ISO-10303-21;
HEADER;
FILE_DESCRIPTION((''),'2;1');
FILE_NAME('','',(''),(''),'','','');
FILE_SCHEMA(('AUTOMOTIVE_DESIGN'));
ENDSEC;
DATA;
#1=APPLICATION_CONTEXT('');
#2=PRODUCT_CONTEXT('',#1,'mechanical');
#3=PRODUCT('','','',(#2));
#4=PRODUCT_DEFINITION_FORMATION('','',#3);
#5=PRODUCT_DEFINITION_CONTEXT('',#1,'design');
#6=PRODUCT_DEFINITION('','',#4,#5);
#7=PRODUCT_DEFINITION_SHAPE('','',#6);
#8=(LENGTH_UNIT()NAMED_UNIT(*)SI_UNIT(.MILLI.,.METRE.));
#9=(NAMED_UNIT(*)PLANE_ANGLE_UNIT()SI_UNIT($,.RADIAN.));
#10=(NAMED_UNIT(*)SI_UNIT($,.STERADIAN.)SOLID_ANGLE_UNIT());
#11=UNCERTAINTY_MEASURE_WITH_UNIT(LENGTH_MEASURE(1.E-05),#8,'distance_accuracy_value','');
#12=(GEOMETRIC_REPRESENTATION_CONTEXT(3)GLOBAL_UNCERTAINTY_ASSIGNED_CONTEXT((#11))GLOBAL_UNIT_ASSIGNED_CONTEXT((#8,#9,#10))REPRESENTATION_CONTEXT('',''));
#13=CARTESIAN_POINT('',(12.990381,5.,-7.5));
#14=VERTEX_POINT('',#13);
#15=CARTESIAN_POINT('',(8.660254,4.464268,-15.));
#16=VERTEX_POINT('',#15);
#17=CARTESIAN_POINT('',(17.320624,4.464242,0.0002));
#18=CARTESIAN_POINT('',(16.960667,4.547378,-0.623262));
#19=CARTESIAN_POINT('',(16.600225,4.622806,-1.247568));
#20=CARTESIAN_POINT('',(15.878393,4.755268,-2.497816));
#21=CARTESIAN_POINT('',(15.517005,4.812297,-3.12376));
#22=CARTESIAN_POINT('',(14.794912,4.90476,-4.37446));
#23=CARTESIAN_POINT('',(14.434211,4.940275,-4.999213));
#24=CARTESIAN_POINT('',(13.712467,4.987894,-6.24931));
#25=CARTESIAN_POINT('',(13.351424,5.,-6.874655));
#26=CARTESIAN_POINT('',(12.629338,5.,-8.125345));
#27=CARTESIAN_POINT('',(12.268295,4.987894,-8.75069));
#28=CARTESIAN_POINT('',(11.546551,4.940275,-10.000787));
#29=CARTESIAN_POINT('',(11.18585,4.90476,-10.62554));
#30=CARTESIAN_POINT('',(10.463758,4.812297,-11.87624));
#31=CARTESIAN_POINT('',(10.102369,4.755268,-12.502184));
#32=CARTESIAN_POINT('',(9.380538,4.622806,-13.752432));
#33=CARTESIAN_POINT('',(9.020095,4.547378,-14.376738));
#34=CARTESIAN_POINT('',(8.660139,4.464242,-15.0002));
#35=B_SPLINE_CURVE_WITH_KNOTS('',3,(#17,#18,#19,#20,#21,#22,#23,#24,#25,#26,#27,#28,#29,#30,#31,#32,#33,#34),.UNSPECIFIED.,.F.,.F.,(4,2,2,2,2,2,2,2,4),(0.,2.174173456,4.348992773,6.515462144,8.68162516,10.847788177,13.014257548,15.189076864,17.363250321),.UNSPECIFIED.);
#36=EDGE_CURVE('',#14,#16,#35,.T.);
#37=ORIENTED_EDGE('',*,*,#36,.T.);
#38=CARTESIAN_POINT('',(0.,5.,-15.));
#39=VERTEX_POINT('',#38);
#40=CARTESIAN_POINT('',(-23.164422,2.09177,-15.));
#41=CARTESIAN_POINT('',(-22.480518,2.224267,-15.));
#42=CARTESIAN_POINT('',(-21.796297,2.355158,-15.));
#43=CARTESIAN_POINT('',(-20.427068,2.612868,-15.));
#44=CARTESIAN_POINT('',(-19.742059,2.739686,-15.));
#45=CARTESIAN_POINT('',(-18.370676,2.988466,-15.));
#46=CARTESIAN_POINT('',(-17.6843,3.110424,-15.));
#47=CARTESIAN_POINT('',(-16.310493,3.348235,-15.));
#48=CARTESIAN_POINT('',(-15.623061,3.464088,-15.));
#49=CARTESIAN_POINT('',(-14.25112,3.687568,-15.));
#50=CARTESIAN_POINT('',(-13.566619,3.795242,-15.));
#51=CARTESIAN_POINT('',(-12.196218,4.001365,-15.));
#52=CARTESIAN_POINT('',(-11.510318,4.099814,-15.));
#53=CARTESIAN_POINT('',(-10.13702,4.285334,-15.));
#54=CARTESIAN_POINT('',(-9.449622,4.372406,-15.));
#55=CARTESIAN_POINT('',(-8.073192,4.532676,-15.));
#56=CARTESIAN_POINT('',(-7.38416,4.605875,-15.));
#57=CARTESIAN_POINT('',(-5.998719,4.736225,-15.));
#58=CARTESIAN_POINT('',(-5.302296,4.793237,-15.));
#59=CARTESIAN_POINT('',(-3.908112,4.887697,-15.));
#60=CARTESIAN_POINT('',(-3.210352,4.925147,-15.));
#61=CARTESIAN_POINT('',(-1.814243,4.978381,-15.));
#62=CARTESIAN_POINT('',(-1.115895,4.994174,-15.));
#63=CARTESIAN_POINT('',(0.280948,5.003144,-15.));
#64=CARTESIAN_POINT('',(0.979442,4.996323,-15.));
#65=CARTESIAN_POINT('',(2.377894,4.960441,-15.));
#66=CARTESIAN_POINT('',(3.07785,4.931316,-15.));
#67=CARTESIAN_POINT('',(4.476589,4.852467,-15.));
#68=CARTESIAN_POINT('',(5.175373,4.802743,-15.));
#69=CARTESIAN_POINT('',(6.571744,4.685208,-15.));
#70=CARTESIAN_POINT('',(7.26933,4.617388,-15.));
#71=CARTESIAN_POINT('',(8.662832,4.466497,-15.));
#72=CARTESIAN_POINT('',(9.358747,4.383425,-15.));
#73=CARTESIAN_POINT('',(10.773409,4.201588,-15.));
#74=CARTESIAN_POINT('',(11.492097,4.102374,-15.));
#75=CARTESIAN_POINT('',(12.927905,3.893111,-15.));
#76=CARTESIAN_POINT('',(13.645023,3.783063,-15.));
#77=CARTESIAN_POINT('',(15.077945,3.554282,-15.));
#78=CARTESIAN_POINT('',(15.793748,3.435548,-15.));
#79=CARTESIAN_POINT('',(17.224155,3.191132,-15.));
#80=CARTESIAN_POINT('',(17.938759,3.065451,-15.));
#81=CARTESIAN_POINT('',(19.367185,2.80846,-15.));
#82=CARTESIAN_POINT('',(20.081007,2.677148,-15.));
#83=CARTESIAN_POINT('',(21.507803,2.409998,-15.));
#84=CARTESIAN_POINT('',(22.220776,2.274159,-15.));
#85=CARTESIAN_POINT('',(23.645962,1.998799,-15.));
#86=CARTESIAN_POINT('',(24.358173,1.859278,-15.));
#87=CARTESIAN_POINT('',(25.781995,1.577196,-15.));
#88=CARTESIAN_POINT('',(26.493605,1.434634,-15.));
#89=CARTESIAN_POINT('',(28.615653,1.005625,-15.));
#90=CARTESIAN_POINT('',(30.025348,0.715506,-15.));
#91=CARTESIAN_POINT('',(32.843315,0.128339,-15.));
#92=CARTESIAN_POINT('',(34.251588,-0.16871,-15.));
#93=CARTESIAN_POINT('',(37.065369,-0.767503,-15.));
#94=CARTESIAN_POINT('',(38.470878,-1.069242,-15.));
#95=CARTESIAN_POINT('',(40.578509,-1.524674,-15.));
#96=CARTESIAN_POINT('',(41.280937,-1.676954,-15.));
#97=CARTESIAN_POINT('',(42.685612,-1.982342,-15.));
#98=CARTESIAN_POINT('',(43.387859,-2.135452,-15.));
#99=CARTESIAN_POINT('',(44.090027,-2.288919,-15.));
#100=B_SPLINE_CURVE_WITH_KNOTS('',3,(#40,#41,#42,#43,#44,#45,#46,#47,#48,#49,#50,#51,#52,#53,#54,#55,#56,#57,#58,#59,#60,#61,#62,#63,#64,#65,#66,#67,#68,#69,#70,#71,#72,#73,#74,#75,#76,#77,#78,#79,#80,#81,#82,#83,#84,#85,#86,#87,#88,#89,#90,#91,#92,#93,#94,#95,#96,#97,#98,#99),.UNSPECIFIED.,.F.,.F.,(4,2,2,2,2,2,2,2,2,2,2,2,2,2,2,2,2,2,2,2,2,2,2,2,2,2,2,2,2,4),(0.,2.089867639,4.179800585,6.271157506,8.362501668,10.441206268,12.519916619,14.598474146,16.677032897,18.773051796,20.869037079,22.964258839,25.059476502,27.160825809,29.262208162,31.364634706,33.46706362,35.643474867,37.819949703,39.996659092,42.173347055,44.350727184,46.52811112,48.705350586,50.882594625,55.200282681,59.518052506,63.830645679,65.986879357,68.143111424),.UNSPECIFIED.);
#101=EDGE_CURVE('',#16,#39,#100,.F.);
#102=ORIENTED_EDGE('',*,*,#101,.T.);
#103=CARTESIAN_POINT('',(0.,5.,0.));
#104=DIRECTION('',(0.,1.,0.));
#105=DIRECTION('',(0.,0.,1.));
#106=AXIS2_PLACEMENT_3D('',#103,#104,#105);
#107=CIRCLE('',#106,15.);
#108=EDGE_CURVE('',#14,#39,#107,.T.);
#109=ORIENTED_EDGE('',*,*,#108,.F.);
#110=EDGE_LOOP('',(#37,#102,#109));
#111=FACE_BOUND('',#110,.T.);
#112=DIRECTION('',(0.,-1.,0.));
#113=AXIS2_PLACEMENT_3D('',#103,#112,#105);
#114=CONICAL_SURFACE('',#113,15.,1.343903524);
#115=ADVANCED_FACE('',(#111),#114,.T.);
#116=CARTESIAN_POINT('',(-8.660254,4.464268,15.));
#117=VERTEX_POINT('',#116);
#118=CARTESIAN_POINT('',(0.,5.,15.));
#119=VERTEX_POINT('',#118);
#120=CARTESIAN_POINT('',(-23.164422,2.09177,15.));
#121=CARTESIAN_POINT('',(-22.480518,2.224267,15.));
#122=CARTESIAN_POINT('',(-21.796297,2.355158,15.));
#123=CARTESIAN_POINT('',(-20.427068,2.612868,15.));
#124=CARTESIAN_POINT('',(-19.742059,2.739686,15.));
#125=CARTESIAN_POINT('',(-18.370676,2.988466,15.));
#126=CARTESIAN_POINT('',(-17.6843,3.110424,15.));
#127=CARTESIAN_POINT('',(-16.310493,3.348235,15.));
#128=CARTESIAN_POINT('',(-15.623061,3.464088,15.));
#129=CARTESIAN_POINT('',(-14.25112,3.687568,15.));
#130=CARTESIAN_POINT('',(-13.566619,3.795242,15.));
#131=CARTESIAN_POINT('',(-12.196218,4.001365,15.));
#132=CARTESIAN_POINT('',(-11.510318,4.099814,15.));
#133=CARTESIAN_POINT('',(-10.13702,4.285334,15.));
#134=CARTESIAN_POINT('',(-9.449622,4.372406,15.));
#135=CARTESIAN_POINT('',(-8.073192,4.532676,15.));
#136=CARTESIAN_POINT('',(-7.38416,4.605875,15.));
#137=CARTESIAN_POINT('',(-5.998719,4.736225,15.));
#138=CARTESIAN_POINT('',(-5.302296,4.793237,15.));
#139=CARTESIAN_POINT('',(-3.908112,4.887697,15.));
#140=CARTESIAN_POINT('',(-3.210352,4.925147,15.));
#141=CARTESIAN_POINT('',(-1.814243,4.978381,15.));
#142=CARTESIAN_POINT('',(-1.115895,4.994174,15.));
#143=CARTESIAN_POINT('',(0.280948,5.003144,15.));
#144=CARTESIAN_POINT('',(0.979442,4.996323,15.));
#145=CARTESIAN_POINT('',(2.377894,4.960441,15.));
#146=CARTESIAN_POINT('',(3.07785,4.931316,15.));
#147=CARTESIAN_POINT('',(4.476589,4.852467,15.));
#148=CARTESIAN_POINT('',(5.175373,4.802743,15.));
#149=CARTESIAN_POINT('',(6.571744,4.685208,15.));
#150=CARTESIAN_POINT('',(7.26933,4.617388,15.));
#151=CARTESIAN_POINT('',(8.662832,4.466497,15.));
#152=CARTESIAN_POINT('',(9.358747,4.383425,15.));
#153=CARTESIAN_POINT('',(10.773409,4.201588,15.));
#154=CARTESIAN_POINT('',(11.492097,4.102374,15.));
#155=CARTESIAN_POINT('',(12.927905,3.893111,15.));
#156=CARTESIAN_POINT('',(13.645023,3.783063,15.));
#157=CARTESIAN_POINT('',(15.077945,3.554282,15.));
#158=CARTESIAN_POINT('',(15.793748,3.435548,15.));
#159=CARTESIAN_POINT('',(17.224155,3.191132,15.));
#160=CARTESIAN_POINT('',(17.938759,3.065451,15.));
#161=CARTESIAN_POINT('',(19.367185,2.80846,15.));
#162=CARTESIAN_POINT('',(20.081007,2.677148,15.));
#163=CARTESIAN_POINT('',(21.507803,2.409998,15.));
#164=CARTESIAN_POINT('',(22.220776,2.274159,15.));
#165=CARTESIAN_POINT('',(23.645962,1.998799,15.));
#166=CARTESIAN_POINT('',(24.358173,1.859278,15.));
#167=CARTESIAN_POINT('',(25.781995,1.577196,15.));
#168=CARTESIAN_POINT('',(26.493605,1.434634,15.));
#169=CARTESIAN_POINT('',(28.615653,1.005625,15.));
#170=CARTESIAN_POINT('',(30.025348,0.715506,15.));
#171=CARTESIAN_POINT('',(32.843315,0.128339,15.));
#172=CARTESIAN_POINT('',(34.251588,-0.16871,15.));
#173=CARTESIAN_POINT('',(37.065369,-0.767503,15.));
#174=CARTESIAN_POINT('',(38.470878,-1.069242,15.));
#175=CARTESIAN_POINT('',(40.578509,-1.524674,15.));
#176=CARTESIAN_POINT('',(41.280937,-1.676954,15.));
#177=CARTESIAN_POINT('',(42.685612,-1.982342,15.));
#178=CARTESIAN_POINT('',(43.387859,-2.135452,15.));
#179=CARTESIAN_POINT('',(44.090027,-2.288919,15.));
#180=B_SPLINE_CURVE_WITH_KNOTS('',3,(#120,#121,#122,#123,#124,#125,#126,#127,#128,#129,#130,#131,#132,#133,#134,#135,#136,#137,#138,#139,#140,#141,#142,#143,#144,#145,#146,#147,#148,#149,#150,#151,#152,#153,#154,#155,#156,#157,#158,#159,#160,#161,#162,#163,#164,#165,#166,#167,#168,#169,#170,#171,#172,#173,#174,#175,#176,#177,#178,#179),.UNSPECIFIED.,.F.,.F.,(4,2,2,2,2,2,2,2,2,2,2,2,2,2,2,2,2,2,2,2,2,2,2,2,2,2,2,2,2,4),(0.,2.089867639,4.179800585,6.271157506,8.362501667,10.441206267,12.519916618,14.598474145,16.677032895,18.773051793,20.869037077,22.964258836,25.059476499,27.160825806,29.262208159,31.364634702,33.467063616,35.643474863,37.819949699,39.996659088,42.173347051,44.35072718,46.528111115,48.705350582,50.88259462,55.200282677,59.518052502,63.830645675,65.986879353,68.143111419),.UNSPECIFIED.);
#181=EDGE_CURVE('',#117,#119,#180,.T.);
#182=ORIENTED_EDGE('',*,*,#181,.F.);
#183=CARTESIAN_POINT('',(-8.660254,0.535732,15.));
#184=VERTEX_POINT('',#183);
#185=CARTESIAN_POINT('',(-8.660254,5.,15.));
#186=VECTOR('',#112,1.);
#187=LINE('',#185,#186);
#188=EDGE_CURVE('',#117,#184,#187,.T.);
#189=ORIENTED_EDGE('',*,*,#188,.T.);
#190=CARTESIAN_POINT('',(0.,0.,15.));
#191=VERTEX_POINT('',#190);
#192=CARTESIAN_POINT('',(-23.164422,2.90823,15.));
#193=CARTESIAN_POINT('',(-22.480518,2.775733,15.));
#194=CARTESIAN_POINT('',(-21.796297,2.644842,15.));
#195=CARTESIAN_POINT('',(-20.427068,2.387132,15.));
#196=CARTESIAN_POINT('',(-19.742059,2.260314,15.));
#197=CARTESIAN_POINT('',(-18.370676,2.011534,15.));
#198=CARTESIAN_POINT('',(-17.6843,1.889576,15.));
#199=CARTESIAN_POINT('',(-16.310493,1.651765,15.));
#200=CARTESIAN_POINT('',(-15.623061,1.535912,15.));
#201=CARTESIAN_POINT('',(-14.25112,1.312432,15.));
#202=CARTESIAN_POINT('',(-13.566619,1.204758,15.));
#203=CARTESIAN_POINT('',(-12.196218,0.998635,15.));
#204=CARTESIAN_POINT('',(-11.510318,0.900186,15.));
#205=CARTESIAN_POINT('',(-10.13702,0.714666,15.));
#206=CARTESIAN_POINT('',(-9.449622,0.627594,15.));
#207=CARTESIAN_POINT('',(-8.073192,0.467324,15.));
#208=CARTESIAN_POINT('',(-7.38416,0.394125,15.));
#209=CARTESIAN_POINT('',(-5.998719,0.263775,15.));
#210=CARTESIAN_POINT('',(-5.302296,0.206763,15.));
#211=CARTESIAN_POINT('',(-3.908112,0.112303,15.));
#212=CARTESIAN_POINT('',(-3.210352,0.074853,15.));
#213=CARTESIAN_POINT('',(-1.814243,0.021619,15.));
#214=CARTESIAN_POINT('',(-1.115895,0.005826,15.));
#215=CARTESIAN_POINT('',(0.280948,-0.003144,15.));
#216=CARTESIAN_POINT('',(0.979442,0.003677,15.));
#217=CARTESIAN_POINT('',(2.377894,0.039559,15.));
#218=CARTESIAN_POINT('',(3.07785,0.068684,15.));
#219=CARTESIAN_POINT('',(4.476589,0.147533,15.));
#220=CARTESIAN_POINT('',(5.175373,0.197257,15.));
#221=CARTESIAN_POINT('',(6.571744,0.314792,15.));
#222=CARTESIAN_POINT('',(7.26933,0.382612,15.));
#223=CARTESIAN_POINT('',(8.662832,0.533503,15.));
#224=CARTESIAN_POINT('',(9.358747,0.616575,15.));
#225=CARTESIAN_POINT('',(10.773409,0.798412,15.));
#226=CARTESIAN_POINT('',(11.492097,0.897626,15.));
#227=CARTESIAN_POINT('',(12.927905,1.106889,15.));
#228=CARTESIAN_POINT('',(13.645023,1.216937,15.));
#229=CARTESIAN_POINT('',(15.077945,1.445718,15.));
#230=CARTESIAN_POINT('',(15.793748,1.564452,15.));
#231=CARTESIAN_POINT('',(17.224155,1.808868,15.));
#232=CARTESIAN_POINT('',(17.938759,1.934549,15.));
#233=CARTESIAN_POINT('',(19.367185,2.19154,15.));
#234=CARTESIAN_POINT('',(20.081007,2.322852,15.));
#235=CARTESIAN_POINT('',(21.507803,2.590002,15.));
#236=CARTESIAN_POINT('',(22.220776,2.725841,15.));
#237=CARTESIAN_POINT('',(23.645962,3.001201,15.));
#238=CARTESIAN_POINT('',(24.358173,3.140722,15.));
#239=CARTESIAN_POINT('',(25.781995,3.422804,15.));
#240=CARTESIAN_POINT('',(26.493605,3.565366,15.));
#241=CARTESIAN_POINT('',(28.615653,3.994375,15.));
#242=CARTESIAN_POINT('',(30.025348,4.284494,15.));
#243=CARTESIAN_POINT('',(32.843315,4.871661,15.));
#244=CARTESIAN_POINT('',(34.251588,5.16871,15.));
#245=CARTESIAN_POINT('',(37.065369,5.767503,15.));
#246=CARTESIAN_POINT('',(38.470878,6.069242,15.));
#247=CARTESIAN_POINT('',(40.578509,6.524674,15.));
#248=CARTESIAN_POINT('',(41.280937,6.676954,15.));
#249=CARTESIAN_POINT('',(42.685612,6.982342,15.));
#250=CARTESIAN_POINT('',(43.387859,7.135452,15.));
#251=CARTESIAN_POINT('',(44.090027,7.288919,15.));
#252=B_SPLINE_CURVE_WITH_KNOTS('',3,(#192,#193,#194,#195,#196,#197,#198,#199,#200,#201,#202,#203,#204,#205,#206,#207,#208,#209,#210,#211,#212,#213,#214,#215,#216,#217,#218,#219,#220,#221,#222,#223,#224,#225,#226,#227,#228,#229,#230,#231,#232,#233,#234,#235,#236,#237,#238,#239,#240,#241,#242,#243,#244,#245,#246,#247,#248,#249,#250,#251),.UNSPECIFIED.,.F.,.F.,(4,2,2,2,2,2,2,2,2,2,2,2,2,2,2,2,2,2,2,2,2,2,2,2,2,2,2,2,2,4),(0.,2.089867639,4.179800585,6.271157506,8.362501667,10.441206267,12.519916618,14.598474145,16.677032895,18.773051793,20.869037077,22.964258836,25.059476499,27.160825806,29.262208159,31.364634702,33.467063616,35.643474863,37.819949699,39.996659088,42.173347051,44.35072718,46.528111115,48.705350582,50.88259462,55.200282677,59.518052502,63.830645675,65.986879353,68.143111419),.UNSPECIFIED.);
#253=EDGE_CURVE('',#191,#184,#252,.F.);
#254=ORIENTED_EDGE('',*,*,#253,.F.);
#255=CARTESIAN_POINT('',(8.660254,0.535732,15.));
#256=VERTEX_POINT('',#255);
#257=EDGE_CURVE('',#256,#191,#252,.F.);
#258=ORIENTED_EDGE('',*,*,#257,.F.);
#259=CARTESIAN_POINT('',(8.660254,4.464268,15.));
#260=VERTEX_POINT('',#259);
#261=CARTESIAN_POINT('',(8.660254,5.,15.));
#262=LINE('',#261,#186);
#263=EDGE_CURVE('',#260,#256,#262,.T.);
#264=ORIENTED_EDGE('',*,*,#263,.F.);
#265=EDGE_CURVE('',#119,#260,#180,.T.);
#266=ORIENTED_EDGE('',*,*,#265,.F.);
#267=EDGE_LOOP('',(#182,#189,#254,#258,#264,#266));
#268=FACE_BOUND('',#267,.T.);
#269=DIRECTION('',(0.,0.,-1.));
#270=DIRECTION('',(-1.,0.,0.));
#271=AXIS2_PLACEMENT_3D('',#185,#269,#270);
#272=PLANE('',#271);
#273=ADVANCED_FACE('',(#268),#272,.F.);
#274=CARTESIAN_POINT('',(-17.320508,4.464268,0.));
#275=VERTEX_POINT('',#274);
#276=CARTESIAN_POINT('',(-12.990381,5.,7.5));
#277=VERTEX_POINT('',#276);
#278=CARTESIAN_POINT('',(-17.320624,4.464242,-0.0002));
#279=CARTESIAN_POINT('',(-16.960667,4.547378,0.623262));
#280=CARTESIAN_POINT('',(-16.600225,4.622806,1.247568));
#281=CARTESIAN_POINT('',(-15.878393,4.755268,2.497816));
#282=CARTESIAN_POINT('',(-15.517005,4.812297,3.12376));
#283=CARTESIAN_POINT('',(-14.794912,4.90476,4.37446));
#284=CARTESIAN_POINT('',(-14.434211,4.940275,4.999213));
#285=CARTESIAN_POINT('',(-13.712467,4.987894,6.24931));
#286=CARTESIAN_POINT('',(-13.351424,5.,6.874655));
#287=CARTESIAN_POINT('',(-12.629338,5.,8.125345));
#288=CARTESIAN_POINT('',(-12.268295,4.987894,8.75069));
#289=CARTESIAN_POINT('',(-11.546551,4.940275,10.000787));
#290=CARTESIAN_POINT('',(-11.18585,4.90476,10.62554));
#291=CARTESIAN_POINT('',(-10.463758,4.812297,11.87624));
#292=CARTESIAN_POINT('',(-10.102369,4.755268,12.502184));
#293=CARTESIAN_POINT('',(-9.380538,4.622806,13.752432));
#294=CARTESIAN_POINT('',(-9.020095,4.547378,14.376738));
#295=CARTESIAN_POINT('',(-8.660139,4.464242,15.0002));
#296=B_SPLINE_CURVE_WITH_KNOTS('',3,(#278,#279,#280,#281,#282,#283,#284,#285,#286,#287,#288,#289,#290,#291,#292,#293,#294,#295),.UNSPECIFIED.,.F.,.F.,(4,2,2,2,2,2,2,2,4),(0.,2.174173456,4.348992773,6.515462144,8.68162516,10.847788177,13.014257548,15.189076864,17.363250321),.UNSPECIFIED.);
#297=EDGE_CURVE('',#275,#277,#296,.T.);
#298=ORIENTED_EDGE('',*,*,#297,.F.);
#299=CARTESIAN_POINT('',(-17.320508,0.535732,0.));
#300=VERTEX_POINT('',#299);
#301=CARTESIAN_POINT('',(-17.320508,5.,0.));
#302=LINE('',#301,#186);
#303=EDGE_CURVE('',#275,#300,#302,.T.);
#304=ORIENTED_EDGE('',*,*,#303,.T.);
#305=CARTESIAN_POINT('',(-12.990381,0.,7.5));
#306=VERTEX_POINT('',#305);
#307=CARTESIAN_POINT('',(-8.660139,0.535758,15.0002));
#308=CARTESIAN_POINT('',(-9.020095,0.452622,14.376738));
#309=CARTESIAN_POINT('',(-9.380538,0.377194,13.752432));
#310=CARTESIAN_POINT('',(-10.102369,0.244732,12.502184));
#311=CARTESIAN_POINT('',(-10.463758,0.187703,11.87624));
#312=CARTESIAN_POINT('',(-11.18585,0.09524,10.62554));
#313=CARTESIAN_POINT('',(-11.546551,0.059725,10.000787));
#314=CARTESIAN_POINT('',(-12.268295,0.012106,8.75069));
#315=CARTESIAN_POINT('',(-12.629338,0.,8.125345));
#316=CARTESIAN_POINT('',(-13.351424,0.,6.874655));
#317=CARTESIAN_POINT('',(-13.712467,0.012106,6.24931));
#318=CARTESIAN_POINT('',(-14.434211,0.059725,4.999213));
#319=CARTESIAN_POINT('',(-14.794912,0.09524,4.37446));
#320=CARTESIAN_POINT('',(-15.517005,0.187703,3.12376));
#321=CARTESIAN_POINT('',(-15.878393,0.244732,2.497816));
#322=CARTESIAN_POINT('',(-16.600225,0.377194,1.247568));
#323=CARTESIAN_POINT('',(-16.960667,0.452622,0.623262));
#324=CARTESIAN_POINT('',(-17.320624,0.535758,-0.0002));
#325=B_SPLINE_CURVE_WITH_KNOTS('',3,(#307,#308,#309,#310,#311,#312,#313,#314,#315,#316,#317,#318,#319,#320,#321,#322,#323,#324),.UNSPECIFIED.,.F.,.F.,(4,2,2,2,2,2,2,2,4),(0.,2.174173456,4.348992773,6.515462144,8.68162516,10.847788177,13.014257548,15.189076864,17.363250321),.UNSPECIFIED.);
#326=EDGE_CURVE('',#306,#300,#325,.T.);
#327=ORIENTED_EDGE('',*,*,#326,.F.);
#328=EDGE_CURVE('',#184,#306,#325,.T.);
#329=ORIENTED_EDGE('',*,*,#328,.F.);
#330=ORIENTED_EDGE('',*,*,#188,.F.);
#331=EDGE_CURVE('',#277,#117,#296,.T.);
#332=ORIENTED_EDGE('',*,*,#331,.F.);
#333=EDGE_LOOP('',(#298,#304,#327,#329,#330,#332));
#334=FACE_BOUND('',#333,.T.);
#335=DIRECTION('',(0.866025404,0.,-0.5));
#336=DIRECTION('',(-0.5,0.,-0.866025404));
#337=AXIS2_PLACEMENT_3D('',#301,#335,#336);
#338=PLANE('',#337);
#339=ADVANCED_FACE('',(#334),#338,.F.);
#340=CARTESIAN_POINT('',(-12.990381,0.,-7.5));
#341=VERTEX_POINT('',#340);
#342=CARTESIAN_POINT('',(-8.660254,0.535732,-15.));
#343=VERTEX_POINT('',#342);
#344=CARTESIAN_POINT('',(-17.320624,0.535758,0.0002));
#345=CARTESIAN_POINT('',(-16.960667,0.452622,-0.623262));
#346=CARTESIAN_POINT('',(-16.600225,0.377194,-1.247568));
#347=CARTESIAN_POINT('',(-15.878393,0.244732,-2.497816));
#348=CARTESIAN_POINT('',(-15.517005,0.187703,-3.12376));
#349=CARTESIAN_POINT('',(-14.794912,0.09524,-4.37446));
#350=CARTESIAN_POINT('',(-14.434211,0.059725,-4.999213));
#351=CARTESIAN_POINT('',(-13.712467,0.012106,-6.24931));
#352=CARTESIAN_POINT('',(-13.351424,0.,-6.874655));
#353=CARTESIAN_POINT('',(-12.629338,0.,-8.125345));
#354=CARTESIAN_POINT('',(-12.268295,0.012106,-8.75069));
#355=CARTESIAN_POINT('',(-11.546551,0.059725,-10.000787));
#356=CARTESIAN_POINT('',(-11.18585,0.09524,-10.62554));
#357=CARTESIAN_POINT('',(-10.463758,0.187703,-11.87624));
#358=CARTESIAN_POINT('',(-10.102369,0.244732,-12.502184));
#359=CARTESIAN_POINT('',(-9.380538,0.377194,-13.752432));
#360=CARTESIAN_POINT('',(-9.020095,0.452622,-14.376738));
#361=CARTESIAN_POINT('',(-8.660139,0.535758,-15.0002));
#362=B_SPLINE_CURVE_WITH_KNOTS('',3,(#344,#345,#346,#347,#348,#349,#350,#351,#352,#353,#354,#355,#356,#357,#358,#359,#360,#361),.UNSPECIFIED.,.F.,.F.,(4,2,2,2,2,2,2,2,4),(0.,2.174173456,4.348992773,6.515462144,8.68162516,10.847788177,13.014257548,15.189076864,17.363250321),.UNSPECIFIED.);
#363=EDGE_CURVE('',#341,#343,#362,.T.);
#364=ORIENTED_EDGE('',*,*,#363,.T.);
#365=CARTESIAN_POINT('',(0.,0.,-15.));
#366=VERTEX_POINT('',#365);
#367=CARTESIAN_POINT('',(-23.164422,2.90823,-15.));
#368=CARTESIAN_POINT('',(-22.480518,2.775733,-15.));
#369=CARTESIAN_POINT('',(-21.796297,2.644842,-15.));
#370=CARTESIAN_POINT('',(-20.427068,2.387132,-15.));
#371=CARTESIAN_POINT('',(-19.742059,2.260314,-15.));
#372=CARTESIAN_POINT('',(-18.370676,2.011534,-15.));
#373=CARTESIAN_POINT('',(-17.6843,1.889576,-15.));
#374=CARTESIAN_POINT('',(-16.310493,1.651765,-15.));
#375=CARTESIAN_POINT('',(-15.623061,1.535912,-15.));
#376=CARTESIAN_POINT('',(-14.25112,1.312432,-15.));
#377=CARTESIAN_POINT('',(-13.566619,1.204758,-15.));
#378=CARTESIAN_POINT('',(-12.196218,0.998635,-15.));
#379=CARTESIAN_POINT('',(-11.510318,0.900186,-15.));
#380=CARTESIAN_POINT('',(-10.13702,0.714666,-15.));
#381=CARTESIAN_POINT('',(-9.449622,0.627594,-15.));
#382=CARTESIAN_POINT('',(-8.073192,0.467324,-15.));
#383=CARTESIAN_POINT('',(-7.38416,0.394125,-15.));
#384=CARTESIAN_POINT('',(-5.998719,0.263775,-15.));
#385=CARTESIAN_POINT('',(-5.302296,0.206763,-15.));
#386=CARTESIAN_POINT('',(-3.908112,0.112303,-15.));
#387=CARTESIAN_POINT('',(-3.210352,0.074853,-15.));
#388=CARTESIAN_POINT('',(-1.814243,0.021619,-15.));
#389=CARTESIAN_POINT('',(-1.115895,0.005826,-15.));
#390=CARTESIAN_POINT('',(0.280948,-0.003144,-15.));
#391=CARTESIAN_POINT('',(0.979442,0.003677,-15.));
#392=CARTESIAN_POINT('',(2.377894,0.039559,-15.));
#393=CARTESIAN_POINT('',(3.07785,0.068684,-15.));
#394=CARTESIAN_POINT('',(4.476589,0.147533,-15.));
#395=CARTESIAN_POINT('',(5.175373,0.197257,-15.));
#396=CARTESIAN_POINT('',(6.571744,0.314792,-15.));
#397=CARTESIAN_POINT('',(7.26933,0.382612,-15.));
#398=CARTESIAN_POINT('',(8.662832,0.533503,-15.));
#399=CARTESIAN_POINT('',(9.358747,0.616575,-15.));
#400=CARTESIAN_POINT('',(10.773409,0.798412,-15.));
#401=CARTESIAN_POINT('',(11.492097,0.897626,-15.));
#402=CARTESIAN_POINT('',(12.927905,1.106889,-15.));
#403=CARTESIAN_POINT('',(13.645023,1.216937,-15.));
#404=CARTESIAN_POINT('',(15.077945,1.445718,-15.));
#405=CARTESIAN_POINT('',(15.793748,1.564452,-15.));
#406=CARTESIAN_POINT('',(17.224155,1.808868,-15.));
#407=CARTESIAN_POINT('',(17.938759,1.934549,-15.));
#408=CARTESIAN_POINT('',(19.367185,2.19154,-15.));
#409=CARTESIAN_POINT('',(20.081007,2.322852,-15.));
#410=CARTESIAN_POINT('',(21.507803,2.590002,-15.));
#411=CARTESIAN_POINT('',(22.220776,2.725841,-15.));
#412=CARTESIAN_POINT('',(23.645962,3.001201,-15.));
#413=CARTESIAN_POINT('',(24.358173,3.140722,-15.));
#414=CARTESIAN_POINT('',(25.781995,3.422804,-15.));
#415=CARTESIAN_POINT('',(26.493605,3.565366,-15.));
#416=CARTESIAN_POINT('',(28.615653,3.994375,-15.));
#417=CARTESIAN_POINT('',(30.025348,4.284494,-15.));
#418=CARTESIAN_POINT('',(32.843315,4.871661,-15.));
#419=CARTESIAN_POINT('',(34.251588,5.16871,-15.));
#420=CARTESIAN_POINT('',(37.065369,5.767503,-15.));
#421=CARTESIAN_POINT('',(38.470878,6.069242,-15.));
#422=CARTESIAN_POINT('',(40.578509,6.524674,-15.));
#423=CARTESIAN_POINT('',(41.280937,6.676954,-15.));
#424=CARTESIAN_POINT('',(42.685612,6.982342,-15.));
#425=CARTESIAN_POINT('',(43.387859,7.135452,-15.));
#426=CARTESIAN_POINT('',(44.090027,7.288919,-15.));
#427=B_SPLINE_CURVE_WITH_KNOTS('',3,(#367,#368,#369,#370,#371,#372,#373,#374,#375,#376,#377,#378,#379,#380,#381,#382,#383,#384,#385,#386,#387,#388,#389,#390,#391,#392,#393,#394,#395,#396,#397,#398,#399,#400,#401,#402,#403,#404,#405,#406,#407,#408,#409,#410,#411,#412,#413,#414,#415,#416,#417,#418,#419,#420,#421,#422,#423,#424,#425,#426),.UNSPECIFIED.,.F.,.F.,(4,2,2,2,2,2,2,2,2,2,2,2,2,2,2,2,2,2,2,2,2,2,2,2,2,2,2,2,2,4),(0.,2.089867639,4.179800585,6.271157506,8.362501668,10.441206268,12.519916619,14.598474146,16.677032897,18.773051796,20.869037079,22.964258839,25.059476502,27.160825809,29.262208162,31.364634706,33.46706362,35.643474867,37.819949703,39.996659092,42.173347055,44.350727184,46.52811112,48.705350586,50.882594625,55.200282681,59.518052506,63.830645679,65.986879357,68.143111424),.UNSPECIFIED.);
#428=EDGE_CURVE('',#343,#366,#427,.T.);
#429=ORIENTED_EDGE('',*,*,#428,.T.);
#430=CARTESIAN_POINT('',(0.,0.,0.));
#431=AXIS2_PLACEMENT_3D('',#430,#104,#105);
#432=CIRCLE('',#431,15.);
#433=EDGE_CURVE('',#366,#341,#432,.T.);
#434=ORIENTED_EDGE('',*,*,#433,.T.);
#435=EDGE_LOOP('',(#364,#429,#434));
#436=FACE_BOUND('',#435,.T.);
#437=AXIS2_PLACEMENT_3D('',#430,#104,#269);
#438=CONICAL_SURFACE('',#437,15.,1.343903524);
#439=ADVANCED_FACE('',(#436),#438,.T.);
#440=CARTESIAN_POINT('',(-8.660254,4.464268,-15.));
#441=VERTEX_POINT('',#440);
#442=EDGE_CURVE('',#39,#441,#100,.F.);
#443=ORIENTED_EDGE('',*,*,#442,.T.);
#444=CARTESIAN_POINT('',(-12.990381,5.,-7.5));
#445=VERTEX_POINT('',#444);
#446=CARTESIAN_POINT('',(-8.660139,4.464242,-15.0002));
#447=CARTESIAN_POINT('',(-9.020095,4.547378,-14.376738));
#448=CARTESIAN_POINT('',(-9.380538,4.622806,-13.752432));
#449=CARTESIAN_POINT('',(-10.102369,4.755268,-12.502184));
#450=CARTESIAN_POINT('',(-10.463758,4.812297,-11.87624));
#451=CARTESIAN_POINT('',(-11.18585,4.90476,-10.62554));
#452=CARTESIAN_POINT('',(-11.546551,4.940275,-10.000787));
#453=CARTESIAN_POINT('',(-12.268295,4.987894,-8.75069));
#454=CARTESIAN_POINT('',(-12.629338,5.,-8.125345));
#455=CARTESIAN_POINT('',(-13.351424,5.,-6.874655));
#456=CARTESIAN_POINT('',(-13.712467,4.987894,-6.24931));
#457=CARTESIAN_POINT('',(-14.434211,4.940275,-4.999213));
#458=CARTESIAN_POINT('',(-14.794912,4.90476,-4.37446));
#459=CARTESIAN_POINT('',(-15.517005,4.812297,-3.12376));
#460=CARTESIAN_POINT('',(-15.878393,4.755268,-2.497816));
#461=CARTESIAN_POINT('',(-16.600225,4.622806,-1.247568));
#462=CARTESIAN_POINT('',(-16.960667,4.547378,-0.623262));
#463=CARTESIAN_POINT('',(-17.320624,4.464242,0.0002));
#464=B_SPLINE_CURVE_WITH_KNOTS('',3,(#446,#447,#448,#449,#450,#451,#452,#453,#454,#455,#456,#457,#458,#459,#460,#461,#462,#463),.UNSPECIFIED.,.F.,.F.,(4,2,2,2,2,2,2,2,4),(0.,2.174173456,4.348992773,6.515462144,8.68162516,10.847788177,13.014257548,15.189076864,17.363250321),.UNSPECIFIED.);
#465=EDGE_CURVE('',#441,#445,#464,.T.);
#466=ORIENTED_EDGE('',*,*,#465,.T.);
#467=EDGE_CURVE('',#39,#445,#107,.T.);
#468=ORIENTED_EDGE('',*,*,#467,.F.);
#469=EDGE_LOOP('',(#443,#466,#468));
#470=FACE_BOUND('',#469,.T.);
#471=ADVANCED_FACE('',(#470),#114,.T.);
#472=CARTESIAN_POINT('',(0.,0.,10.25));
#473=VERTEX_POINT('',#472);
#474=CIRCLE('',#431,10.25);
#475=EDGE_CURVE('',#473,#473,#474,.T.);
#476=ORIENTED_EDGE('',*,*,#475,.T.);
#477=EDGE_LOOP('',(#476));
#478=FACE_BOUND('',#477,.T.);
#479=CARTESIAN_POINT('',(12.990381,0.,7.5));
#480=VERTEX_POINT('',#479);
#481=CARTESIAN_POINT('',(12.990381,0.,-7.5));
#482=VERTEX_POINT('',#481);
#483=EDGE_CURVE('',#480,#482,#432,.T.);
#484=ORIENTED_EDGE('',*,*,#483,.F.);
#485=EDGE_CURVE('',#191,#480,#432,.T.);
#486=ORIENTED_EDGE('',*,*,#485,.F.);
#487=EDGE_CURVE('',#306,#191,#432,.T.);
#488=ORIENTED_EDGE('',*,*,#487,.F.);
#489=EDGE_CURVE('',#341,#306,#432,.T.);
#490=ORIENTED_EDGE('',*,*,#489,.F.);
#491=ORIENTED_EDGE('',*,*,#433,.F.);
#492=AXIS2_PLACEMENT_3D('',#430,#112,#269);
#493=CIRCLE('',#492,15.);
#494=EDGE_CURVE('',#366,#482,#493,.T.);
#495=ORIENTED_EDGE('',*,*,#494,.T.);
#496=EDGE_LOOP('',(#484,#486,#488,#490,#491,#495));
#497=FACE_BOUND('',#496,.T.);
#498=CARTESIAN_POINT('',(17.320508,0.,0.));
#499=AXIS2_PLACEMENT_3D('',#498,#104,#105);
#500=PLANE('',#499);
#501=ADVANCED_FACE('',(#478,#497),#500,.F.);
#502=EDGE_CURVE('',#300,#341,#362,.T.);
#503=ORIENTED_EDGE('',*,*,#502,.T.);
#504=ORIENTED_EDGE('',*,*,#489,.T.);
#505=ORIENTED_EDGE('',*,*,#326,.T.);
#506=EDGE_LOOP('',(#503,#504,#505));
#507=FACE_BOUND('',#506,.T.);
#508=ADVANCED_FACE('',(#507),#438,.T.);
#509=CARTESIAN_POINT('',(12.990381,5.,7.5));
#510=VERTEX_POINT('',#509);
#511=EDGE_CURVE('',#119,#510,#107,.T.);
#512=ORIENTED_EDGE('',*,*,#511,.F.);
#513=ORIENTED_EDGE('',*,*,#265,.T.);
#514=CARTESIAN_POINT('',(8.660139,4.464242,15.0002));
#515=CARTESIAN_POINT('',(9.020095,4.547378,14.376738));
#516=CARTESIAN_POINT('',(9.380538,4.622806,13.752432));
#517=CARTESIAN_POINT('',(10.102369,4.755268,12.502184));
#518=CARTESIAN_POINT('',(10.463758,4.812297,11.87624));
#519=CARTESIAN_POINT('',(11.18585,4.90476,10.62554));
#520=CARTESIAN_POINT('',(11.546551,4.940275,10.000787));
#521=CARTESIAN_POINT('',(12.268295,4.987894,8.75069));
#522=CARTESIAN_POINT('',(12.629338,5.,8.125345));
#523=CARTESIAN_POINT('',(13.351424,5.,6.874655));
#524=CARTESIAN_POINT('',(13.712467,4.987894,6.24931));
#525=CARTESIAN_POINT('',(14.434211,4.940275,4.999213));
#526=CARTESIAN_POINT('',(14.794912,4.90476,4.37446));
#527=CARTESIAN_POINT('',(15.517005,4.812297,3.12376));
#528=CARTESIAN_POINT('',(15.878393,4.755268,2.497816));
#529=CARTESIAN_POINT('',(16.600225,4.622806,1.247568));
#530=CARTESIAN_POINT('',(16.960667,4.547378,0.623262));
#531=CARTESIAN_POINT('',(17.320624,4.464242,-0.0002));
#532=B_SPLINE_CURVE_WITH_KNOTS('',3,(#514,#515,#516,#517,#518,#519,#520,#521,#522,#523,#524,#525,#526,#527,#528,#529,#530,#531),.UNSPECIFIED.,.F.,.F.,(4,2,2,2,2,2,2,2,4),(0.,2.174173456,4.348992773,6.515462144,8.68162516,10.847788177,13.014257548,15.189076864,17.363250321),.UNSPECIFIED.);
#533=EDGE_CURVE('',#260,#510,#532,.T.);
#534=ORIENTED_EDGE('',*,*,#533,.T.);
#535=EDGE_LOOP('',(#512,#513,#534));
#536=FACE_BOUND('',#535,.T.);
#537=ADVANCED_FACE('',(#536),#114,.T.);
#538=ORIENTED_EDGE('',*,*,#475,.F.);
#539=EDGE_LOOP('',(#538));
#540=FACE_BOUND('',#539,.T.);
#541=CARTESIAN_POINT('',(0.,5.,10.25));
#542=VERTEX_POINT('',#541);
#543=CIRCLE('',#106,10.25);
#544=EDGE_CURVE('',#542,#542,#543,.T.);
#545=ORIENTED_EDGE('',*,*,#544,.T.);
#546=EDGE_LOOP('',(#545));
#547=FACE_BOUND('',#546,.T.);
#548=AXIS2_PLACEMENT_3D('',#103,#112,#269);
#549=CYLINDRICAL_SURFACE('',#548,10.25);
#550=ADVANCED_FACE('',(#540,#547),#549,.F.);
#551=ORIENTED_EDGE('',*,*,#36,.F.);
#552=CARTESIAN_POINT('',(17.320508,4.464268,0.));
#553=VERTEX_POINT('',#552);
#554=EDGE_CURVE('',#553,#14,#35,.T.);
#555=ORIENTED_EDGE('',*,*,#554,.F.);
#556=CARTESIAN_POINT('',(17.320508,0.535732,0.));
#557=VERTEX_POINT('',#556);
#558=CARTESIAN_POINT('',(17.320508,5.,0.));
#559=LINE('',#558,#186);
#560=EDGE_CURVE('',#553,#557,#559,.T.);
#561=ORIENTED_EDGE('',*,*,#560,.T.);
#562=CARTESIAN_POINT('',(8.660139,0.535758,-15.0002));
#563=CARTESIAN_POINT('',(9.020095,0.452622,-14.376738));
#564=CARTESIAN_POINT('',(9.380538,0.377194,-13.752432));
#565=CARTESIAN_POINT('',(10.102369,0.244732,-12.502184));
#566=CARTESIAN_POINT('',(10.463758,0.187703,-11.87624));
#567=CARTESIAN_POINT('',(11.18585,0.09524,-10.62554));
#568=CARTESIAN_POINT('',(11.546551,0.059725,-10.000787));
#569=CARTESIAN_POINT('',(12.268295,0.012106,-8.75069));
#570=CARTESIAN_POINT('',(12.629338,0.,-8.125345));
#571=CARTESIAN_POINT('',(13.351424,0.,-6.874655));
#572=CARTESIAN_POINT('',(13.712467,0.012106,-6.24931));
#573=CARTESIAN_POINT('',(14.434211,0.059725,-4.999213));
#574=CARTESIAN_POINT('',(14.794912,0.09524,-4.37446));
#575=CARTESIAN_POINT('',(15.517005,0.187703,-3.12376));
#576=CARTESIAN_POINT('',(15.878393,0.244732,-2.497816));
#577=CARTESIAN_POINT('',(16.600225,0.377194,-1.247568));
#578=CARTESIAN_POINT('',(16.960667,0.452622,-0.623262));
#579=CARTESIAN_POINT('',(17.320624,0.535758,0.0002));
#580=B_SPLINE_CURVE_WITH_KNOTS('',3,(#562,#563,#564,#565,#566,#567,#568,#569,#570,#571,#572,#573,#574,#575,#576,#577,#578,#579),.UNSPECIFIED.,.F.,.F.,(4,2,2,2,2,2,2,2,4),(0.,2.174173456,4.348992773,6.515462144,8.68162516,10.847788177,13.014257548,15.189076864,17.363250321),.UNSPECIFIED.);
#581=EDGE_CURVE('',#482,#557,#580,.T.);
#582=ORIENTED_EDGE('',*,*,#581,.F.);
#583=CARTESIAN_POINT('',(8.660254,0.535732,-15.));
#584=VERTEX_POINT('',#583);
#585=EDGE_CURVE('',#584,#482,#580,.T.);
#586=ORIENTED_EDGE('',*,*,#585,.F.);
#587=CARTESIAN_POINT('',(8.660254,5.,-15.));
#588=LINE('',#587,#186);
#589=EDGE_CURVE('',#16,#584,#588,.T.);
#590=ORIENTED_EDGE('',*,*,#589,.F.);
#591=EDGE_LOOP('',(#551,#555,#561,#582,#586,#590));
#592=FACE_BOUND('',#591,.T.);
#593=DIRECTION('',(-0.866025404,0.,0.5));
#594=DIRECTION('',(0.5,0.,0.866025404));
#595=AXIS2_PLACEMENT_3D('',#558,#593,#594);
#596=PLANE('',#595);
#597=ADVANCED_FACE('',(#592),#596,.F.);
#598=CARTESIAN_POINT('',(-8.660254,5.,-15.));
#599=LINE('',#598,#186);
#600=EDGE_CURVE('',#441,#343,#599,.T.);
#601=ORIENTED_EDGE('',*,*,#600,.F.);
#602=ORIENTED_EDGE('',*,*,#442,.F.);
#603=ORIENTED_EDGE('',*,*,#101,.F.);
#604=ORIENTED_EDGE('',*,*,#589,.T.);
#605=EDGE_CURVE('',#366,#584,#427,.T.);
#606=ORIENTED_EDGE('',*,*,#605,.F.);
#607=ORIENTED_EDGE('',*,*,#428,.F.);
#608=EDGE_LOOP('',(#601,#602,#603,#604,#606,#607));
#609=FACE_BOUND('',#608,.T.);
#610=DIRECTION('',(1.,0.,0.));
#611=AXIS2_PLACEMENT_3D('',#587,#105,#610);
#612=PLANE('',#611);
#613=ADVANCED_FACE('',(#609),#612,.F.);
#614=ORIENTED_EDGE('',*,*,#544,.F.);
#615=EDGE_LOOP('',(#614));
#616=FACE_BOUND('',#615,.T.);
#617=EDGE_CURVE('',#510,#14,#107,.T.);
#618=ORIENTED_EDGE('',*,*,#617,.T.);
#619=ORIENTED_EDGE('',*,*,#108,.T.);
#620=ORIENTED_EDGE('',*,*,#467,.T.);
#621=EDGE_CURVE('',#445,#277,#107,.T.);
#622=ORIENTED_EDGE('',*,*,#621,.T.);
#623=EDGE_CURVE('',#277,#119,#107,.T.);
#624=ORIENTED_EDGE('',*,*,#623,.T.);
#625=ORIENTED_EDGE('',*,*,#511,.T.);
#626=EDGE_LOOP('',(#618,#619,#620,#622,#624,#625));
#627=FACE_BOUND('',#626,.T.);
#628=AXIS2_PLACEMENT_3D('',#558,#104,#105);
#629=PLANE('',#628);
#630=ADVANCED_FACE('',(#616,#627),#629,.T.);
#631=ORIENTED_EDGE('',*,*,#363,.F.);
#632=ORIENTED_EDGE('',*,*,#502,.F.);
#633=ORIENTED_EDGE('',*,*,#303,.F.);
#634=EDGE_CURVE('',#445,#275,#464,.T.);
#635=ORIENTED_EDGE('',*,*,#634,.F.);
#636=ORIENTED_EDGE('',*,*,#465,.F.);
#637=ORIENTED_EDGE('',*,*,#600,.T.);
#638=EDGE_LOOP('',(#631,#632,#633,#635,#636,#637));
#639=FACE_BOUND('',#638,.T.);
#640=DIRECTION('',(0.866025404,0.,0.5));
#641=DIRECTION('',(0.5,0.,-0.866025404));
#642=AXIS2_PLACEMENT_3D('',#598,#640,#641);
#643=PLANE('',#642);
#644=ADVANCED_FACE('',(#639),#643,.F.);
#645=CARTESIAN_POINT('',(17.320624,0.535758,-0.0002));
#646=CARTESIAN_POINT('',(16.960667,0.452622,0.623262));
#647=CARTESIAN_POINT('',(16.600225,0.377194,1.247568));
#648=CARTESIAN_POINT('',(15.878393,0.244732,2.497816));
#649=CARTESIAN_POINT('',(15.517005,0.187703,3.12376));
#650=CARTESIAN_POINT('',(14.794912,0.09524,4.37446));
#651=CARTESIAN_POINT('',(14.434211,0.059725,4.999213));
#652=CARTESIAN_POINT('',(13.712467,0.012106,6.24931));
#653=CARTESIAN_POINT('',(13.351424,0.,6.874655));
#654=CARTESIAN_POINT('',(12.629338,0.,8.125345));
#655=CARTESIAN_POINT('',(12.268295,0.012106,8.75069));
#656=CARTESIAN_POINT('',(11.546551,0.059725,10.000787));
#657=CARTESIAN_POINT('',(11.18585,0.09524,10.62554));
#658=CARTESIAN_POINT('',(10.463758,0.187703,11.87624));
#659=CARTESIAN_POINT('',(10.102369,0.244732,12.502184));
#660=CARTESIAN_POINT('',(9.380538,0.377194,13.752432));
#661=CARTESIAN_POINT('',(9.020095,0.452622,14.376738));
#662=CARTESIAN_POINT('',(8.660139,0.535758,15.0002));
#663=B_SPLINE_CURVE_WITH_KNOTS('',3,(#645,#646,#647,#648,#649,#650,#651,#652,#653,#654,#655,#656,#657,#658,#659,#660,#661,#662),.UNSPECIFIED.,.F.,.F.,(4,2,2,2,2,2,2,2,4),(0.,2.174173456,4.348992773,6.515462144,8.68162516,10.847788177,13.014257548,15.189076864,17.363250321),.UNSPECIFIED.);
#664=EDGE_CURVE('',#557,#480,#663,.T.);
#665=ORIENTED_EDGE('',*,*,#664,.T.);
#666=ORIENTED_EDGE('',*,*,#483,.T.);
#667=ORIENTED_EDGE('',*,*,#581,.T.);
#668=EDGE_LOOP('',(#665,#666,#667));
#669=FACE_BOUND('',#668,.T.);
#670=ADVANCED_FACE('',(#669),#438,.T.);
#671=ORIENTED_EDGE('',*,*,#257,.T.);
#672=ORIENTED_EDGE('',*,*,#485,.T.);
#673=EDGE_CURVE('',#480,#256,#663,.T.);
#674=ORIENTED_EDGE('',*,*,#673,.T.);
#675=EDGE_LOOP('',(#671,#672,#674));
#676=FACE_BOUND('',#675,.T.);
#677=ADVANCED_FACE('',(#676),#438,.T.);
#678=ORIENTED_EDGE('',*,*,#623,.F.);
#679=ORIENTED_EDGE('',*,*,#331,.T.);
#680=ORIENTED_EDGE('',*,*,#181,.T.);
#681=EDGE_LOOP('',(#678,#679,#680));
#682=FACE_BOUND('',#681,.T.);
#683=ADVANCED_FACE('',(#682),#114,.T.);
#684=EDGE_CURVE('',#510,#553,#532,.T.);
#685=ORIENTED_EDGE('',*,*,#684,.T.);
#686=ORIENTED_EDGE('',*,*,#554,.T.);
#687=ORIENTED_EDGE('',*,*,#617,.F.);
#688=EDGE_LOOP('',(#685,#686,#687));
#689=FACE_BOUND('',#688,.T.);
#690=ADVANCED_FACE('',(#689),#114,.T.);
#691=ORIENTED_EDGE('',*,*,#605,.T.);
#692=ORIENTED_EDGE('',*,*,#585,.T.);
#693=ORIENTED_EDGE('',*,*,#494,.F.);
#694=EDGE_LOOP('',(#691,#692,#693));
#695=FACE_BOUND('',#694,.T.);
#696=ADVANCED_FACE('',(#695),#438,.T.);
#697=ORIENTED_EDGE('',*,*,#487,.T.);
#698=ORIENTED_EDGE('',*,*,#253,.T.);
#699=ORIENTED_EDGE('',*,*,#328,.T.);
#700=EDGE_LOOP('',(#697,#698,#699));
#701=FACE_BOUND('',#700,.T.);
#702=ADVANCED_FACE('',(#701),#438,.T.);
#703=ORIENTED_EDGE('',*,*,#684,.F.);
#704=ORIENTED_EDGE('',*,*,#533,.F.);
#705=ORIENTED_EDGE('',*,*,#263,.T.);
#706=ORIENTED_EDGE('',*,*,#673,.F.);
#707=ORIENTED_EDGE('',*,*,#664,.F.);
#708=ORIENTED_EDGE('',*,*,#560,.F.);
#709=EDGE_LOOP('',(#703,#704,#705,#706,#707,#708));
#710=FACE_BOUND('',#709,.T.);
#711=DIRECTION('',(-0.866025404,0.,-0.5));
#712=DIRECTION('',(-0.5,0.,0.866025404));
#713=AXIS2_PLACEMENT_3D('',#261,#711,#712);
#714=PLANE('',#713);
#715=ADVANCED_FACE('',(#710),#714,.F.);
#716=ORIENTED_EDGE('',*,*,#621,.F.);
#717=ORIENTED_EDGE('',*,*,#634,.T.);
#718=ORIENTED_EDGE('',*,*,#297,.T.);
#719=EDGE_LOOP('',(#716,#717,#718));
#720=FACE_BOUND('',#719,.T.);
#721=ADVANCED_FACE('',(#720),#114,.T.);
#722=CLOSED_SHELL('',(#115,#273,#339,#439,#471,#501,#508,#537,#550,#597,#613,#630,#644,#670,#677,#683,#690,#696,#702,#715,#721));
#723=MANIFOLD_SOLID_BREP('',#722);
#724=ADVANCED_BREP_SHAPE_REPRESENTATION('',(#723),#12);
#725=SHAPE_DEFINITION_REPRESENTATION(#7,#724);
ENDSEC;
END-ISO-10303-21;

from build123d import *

# Parameters (mm, degrees)
SKETCH_1_R          = 10.25
EXTRUDE_1_DEPTH     = 5
SKETCH_2_OUTSIDE_W  = 97.84
SKETCH_2_OUTSIDE_H  = 93.198
SKETCH_2_OUTSIDE_R  = 15
CUT_EXTRUDE_1_DEPTH = 6
CUT_EXTRUDE_1_TAPER = 77
SKETCH_3_OUTSIDE_W  = 97.84
SKETCH_3_OUTSIDE_H  = 93.198
SKETCH_3_OUTSIDE_R  = 15
CUT_EXTRUDE_2_DEPTH = 6
CUT_EXTRUDE_2_TAPER = 77


with BuildPart() as part:
    # Эскиз1 → Бобышка-Вытянуть1 (new body)
    with BuildSketch(Plane(origin=(0, 0, 0), x_dir=(1, 0, 0), z_dir=(0, 1, 0))):
        Polygon((17.320508076, 0), (8.660254038, 15), (-8.660254038, 15), (-17.320508076, 0), (-8.660254038, -15), (8.660254038, -15), align=None)
        Circle(SKETCH_1_R, mode=Mode.SUBTRACT)
    extrude(amount=EXTRUDE_1_DEPTH)

    # Эскиз2 outside → Вырез-Вытянуть1 (cut, through all)
    with BuildSketch(Plane(origin=(0, 5, 0), x_dir=(1, 0, 0), z_dir=(0, 1, 0))):
        Rectangle(SKETCH_2_OUTSIDE_W, SKETCH_2_OUTSIDE_H)
        Circle(SKETCH_2_OUTSIDE_R, mode=Mode.SUBTRACT)
    extrude(amount=-CUT_EXTRUDE_1_DEPTH, taper=CUT_EXTRUDE_1_TAPER, mode=Mode.SUBTRACT)

    # Эскиз3 outside → Вырез-Вытянуть2 (cut, through all)
    with BuildSketch(Plane.XZ):
        Rectangle(SKETCH_3_OUTSIDE_W, SKETCH_3_OUTSIDE_H)
        Circle(SKETCH_3_OUTSIDE_R, mode=Mode.SUBTRACT)
    extrude(amount=-CUT_EXTRUDE_2_DEPTH, taper=CUT_EXTRUDE_2_TAPER, mode=Mode.SUBTRACT)


solid = part.part
